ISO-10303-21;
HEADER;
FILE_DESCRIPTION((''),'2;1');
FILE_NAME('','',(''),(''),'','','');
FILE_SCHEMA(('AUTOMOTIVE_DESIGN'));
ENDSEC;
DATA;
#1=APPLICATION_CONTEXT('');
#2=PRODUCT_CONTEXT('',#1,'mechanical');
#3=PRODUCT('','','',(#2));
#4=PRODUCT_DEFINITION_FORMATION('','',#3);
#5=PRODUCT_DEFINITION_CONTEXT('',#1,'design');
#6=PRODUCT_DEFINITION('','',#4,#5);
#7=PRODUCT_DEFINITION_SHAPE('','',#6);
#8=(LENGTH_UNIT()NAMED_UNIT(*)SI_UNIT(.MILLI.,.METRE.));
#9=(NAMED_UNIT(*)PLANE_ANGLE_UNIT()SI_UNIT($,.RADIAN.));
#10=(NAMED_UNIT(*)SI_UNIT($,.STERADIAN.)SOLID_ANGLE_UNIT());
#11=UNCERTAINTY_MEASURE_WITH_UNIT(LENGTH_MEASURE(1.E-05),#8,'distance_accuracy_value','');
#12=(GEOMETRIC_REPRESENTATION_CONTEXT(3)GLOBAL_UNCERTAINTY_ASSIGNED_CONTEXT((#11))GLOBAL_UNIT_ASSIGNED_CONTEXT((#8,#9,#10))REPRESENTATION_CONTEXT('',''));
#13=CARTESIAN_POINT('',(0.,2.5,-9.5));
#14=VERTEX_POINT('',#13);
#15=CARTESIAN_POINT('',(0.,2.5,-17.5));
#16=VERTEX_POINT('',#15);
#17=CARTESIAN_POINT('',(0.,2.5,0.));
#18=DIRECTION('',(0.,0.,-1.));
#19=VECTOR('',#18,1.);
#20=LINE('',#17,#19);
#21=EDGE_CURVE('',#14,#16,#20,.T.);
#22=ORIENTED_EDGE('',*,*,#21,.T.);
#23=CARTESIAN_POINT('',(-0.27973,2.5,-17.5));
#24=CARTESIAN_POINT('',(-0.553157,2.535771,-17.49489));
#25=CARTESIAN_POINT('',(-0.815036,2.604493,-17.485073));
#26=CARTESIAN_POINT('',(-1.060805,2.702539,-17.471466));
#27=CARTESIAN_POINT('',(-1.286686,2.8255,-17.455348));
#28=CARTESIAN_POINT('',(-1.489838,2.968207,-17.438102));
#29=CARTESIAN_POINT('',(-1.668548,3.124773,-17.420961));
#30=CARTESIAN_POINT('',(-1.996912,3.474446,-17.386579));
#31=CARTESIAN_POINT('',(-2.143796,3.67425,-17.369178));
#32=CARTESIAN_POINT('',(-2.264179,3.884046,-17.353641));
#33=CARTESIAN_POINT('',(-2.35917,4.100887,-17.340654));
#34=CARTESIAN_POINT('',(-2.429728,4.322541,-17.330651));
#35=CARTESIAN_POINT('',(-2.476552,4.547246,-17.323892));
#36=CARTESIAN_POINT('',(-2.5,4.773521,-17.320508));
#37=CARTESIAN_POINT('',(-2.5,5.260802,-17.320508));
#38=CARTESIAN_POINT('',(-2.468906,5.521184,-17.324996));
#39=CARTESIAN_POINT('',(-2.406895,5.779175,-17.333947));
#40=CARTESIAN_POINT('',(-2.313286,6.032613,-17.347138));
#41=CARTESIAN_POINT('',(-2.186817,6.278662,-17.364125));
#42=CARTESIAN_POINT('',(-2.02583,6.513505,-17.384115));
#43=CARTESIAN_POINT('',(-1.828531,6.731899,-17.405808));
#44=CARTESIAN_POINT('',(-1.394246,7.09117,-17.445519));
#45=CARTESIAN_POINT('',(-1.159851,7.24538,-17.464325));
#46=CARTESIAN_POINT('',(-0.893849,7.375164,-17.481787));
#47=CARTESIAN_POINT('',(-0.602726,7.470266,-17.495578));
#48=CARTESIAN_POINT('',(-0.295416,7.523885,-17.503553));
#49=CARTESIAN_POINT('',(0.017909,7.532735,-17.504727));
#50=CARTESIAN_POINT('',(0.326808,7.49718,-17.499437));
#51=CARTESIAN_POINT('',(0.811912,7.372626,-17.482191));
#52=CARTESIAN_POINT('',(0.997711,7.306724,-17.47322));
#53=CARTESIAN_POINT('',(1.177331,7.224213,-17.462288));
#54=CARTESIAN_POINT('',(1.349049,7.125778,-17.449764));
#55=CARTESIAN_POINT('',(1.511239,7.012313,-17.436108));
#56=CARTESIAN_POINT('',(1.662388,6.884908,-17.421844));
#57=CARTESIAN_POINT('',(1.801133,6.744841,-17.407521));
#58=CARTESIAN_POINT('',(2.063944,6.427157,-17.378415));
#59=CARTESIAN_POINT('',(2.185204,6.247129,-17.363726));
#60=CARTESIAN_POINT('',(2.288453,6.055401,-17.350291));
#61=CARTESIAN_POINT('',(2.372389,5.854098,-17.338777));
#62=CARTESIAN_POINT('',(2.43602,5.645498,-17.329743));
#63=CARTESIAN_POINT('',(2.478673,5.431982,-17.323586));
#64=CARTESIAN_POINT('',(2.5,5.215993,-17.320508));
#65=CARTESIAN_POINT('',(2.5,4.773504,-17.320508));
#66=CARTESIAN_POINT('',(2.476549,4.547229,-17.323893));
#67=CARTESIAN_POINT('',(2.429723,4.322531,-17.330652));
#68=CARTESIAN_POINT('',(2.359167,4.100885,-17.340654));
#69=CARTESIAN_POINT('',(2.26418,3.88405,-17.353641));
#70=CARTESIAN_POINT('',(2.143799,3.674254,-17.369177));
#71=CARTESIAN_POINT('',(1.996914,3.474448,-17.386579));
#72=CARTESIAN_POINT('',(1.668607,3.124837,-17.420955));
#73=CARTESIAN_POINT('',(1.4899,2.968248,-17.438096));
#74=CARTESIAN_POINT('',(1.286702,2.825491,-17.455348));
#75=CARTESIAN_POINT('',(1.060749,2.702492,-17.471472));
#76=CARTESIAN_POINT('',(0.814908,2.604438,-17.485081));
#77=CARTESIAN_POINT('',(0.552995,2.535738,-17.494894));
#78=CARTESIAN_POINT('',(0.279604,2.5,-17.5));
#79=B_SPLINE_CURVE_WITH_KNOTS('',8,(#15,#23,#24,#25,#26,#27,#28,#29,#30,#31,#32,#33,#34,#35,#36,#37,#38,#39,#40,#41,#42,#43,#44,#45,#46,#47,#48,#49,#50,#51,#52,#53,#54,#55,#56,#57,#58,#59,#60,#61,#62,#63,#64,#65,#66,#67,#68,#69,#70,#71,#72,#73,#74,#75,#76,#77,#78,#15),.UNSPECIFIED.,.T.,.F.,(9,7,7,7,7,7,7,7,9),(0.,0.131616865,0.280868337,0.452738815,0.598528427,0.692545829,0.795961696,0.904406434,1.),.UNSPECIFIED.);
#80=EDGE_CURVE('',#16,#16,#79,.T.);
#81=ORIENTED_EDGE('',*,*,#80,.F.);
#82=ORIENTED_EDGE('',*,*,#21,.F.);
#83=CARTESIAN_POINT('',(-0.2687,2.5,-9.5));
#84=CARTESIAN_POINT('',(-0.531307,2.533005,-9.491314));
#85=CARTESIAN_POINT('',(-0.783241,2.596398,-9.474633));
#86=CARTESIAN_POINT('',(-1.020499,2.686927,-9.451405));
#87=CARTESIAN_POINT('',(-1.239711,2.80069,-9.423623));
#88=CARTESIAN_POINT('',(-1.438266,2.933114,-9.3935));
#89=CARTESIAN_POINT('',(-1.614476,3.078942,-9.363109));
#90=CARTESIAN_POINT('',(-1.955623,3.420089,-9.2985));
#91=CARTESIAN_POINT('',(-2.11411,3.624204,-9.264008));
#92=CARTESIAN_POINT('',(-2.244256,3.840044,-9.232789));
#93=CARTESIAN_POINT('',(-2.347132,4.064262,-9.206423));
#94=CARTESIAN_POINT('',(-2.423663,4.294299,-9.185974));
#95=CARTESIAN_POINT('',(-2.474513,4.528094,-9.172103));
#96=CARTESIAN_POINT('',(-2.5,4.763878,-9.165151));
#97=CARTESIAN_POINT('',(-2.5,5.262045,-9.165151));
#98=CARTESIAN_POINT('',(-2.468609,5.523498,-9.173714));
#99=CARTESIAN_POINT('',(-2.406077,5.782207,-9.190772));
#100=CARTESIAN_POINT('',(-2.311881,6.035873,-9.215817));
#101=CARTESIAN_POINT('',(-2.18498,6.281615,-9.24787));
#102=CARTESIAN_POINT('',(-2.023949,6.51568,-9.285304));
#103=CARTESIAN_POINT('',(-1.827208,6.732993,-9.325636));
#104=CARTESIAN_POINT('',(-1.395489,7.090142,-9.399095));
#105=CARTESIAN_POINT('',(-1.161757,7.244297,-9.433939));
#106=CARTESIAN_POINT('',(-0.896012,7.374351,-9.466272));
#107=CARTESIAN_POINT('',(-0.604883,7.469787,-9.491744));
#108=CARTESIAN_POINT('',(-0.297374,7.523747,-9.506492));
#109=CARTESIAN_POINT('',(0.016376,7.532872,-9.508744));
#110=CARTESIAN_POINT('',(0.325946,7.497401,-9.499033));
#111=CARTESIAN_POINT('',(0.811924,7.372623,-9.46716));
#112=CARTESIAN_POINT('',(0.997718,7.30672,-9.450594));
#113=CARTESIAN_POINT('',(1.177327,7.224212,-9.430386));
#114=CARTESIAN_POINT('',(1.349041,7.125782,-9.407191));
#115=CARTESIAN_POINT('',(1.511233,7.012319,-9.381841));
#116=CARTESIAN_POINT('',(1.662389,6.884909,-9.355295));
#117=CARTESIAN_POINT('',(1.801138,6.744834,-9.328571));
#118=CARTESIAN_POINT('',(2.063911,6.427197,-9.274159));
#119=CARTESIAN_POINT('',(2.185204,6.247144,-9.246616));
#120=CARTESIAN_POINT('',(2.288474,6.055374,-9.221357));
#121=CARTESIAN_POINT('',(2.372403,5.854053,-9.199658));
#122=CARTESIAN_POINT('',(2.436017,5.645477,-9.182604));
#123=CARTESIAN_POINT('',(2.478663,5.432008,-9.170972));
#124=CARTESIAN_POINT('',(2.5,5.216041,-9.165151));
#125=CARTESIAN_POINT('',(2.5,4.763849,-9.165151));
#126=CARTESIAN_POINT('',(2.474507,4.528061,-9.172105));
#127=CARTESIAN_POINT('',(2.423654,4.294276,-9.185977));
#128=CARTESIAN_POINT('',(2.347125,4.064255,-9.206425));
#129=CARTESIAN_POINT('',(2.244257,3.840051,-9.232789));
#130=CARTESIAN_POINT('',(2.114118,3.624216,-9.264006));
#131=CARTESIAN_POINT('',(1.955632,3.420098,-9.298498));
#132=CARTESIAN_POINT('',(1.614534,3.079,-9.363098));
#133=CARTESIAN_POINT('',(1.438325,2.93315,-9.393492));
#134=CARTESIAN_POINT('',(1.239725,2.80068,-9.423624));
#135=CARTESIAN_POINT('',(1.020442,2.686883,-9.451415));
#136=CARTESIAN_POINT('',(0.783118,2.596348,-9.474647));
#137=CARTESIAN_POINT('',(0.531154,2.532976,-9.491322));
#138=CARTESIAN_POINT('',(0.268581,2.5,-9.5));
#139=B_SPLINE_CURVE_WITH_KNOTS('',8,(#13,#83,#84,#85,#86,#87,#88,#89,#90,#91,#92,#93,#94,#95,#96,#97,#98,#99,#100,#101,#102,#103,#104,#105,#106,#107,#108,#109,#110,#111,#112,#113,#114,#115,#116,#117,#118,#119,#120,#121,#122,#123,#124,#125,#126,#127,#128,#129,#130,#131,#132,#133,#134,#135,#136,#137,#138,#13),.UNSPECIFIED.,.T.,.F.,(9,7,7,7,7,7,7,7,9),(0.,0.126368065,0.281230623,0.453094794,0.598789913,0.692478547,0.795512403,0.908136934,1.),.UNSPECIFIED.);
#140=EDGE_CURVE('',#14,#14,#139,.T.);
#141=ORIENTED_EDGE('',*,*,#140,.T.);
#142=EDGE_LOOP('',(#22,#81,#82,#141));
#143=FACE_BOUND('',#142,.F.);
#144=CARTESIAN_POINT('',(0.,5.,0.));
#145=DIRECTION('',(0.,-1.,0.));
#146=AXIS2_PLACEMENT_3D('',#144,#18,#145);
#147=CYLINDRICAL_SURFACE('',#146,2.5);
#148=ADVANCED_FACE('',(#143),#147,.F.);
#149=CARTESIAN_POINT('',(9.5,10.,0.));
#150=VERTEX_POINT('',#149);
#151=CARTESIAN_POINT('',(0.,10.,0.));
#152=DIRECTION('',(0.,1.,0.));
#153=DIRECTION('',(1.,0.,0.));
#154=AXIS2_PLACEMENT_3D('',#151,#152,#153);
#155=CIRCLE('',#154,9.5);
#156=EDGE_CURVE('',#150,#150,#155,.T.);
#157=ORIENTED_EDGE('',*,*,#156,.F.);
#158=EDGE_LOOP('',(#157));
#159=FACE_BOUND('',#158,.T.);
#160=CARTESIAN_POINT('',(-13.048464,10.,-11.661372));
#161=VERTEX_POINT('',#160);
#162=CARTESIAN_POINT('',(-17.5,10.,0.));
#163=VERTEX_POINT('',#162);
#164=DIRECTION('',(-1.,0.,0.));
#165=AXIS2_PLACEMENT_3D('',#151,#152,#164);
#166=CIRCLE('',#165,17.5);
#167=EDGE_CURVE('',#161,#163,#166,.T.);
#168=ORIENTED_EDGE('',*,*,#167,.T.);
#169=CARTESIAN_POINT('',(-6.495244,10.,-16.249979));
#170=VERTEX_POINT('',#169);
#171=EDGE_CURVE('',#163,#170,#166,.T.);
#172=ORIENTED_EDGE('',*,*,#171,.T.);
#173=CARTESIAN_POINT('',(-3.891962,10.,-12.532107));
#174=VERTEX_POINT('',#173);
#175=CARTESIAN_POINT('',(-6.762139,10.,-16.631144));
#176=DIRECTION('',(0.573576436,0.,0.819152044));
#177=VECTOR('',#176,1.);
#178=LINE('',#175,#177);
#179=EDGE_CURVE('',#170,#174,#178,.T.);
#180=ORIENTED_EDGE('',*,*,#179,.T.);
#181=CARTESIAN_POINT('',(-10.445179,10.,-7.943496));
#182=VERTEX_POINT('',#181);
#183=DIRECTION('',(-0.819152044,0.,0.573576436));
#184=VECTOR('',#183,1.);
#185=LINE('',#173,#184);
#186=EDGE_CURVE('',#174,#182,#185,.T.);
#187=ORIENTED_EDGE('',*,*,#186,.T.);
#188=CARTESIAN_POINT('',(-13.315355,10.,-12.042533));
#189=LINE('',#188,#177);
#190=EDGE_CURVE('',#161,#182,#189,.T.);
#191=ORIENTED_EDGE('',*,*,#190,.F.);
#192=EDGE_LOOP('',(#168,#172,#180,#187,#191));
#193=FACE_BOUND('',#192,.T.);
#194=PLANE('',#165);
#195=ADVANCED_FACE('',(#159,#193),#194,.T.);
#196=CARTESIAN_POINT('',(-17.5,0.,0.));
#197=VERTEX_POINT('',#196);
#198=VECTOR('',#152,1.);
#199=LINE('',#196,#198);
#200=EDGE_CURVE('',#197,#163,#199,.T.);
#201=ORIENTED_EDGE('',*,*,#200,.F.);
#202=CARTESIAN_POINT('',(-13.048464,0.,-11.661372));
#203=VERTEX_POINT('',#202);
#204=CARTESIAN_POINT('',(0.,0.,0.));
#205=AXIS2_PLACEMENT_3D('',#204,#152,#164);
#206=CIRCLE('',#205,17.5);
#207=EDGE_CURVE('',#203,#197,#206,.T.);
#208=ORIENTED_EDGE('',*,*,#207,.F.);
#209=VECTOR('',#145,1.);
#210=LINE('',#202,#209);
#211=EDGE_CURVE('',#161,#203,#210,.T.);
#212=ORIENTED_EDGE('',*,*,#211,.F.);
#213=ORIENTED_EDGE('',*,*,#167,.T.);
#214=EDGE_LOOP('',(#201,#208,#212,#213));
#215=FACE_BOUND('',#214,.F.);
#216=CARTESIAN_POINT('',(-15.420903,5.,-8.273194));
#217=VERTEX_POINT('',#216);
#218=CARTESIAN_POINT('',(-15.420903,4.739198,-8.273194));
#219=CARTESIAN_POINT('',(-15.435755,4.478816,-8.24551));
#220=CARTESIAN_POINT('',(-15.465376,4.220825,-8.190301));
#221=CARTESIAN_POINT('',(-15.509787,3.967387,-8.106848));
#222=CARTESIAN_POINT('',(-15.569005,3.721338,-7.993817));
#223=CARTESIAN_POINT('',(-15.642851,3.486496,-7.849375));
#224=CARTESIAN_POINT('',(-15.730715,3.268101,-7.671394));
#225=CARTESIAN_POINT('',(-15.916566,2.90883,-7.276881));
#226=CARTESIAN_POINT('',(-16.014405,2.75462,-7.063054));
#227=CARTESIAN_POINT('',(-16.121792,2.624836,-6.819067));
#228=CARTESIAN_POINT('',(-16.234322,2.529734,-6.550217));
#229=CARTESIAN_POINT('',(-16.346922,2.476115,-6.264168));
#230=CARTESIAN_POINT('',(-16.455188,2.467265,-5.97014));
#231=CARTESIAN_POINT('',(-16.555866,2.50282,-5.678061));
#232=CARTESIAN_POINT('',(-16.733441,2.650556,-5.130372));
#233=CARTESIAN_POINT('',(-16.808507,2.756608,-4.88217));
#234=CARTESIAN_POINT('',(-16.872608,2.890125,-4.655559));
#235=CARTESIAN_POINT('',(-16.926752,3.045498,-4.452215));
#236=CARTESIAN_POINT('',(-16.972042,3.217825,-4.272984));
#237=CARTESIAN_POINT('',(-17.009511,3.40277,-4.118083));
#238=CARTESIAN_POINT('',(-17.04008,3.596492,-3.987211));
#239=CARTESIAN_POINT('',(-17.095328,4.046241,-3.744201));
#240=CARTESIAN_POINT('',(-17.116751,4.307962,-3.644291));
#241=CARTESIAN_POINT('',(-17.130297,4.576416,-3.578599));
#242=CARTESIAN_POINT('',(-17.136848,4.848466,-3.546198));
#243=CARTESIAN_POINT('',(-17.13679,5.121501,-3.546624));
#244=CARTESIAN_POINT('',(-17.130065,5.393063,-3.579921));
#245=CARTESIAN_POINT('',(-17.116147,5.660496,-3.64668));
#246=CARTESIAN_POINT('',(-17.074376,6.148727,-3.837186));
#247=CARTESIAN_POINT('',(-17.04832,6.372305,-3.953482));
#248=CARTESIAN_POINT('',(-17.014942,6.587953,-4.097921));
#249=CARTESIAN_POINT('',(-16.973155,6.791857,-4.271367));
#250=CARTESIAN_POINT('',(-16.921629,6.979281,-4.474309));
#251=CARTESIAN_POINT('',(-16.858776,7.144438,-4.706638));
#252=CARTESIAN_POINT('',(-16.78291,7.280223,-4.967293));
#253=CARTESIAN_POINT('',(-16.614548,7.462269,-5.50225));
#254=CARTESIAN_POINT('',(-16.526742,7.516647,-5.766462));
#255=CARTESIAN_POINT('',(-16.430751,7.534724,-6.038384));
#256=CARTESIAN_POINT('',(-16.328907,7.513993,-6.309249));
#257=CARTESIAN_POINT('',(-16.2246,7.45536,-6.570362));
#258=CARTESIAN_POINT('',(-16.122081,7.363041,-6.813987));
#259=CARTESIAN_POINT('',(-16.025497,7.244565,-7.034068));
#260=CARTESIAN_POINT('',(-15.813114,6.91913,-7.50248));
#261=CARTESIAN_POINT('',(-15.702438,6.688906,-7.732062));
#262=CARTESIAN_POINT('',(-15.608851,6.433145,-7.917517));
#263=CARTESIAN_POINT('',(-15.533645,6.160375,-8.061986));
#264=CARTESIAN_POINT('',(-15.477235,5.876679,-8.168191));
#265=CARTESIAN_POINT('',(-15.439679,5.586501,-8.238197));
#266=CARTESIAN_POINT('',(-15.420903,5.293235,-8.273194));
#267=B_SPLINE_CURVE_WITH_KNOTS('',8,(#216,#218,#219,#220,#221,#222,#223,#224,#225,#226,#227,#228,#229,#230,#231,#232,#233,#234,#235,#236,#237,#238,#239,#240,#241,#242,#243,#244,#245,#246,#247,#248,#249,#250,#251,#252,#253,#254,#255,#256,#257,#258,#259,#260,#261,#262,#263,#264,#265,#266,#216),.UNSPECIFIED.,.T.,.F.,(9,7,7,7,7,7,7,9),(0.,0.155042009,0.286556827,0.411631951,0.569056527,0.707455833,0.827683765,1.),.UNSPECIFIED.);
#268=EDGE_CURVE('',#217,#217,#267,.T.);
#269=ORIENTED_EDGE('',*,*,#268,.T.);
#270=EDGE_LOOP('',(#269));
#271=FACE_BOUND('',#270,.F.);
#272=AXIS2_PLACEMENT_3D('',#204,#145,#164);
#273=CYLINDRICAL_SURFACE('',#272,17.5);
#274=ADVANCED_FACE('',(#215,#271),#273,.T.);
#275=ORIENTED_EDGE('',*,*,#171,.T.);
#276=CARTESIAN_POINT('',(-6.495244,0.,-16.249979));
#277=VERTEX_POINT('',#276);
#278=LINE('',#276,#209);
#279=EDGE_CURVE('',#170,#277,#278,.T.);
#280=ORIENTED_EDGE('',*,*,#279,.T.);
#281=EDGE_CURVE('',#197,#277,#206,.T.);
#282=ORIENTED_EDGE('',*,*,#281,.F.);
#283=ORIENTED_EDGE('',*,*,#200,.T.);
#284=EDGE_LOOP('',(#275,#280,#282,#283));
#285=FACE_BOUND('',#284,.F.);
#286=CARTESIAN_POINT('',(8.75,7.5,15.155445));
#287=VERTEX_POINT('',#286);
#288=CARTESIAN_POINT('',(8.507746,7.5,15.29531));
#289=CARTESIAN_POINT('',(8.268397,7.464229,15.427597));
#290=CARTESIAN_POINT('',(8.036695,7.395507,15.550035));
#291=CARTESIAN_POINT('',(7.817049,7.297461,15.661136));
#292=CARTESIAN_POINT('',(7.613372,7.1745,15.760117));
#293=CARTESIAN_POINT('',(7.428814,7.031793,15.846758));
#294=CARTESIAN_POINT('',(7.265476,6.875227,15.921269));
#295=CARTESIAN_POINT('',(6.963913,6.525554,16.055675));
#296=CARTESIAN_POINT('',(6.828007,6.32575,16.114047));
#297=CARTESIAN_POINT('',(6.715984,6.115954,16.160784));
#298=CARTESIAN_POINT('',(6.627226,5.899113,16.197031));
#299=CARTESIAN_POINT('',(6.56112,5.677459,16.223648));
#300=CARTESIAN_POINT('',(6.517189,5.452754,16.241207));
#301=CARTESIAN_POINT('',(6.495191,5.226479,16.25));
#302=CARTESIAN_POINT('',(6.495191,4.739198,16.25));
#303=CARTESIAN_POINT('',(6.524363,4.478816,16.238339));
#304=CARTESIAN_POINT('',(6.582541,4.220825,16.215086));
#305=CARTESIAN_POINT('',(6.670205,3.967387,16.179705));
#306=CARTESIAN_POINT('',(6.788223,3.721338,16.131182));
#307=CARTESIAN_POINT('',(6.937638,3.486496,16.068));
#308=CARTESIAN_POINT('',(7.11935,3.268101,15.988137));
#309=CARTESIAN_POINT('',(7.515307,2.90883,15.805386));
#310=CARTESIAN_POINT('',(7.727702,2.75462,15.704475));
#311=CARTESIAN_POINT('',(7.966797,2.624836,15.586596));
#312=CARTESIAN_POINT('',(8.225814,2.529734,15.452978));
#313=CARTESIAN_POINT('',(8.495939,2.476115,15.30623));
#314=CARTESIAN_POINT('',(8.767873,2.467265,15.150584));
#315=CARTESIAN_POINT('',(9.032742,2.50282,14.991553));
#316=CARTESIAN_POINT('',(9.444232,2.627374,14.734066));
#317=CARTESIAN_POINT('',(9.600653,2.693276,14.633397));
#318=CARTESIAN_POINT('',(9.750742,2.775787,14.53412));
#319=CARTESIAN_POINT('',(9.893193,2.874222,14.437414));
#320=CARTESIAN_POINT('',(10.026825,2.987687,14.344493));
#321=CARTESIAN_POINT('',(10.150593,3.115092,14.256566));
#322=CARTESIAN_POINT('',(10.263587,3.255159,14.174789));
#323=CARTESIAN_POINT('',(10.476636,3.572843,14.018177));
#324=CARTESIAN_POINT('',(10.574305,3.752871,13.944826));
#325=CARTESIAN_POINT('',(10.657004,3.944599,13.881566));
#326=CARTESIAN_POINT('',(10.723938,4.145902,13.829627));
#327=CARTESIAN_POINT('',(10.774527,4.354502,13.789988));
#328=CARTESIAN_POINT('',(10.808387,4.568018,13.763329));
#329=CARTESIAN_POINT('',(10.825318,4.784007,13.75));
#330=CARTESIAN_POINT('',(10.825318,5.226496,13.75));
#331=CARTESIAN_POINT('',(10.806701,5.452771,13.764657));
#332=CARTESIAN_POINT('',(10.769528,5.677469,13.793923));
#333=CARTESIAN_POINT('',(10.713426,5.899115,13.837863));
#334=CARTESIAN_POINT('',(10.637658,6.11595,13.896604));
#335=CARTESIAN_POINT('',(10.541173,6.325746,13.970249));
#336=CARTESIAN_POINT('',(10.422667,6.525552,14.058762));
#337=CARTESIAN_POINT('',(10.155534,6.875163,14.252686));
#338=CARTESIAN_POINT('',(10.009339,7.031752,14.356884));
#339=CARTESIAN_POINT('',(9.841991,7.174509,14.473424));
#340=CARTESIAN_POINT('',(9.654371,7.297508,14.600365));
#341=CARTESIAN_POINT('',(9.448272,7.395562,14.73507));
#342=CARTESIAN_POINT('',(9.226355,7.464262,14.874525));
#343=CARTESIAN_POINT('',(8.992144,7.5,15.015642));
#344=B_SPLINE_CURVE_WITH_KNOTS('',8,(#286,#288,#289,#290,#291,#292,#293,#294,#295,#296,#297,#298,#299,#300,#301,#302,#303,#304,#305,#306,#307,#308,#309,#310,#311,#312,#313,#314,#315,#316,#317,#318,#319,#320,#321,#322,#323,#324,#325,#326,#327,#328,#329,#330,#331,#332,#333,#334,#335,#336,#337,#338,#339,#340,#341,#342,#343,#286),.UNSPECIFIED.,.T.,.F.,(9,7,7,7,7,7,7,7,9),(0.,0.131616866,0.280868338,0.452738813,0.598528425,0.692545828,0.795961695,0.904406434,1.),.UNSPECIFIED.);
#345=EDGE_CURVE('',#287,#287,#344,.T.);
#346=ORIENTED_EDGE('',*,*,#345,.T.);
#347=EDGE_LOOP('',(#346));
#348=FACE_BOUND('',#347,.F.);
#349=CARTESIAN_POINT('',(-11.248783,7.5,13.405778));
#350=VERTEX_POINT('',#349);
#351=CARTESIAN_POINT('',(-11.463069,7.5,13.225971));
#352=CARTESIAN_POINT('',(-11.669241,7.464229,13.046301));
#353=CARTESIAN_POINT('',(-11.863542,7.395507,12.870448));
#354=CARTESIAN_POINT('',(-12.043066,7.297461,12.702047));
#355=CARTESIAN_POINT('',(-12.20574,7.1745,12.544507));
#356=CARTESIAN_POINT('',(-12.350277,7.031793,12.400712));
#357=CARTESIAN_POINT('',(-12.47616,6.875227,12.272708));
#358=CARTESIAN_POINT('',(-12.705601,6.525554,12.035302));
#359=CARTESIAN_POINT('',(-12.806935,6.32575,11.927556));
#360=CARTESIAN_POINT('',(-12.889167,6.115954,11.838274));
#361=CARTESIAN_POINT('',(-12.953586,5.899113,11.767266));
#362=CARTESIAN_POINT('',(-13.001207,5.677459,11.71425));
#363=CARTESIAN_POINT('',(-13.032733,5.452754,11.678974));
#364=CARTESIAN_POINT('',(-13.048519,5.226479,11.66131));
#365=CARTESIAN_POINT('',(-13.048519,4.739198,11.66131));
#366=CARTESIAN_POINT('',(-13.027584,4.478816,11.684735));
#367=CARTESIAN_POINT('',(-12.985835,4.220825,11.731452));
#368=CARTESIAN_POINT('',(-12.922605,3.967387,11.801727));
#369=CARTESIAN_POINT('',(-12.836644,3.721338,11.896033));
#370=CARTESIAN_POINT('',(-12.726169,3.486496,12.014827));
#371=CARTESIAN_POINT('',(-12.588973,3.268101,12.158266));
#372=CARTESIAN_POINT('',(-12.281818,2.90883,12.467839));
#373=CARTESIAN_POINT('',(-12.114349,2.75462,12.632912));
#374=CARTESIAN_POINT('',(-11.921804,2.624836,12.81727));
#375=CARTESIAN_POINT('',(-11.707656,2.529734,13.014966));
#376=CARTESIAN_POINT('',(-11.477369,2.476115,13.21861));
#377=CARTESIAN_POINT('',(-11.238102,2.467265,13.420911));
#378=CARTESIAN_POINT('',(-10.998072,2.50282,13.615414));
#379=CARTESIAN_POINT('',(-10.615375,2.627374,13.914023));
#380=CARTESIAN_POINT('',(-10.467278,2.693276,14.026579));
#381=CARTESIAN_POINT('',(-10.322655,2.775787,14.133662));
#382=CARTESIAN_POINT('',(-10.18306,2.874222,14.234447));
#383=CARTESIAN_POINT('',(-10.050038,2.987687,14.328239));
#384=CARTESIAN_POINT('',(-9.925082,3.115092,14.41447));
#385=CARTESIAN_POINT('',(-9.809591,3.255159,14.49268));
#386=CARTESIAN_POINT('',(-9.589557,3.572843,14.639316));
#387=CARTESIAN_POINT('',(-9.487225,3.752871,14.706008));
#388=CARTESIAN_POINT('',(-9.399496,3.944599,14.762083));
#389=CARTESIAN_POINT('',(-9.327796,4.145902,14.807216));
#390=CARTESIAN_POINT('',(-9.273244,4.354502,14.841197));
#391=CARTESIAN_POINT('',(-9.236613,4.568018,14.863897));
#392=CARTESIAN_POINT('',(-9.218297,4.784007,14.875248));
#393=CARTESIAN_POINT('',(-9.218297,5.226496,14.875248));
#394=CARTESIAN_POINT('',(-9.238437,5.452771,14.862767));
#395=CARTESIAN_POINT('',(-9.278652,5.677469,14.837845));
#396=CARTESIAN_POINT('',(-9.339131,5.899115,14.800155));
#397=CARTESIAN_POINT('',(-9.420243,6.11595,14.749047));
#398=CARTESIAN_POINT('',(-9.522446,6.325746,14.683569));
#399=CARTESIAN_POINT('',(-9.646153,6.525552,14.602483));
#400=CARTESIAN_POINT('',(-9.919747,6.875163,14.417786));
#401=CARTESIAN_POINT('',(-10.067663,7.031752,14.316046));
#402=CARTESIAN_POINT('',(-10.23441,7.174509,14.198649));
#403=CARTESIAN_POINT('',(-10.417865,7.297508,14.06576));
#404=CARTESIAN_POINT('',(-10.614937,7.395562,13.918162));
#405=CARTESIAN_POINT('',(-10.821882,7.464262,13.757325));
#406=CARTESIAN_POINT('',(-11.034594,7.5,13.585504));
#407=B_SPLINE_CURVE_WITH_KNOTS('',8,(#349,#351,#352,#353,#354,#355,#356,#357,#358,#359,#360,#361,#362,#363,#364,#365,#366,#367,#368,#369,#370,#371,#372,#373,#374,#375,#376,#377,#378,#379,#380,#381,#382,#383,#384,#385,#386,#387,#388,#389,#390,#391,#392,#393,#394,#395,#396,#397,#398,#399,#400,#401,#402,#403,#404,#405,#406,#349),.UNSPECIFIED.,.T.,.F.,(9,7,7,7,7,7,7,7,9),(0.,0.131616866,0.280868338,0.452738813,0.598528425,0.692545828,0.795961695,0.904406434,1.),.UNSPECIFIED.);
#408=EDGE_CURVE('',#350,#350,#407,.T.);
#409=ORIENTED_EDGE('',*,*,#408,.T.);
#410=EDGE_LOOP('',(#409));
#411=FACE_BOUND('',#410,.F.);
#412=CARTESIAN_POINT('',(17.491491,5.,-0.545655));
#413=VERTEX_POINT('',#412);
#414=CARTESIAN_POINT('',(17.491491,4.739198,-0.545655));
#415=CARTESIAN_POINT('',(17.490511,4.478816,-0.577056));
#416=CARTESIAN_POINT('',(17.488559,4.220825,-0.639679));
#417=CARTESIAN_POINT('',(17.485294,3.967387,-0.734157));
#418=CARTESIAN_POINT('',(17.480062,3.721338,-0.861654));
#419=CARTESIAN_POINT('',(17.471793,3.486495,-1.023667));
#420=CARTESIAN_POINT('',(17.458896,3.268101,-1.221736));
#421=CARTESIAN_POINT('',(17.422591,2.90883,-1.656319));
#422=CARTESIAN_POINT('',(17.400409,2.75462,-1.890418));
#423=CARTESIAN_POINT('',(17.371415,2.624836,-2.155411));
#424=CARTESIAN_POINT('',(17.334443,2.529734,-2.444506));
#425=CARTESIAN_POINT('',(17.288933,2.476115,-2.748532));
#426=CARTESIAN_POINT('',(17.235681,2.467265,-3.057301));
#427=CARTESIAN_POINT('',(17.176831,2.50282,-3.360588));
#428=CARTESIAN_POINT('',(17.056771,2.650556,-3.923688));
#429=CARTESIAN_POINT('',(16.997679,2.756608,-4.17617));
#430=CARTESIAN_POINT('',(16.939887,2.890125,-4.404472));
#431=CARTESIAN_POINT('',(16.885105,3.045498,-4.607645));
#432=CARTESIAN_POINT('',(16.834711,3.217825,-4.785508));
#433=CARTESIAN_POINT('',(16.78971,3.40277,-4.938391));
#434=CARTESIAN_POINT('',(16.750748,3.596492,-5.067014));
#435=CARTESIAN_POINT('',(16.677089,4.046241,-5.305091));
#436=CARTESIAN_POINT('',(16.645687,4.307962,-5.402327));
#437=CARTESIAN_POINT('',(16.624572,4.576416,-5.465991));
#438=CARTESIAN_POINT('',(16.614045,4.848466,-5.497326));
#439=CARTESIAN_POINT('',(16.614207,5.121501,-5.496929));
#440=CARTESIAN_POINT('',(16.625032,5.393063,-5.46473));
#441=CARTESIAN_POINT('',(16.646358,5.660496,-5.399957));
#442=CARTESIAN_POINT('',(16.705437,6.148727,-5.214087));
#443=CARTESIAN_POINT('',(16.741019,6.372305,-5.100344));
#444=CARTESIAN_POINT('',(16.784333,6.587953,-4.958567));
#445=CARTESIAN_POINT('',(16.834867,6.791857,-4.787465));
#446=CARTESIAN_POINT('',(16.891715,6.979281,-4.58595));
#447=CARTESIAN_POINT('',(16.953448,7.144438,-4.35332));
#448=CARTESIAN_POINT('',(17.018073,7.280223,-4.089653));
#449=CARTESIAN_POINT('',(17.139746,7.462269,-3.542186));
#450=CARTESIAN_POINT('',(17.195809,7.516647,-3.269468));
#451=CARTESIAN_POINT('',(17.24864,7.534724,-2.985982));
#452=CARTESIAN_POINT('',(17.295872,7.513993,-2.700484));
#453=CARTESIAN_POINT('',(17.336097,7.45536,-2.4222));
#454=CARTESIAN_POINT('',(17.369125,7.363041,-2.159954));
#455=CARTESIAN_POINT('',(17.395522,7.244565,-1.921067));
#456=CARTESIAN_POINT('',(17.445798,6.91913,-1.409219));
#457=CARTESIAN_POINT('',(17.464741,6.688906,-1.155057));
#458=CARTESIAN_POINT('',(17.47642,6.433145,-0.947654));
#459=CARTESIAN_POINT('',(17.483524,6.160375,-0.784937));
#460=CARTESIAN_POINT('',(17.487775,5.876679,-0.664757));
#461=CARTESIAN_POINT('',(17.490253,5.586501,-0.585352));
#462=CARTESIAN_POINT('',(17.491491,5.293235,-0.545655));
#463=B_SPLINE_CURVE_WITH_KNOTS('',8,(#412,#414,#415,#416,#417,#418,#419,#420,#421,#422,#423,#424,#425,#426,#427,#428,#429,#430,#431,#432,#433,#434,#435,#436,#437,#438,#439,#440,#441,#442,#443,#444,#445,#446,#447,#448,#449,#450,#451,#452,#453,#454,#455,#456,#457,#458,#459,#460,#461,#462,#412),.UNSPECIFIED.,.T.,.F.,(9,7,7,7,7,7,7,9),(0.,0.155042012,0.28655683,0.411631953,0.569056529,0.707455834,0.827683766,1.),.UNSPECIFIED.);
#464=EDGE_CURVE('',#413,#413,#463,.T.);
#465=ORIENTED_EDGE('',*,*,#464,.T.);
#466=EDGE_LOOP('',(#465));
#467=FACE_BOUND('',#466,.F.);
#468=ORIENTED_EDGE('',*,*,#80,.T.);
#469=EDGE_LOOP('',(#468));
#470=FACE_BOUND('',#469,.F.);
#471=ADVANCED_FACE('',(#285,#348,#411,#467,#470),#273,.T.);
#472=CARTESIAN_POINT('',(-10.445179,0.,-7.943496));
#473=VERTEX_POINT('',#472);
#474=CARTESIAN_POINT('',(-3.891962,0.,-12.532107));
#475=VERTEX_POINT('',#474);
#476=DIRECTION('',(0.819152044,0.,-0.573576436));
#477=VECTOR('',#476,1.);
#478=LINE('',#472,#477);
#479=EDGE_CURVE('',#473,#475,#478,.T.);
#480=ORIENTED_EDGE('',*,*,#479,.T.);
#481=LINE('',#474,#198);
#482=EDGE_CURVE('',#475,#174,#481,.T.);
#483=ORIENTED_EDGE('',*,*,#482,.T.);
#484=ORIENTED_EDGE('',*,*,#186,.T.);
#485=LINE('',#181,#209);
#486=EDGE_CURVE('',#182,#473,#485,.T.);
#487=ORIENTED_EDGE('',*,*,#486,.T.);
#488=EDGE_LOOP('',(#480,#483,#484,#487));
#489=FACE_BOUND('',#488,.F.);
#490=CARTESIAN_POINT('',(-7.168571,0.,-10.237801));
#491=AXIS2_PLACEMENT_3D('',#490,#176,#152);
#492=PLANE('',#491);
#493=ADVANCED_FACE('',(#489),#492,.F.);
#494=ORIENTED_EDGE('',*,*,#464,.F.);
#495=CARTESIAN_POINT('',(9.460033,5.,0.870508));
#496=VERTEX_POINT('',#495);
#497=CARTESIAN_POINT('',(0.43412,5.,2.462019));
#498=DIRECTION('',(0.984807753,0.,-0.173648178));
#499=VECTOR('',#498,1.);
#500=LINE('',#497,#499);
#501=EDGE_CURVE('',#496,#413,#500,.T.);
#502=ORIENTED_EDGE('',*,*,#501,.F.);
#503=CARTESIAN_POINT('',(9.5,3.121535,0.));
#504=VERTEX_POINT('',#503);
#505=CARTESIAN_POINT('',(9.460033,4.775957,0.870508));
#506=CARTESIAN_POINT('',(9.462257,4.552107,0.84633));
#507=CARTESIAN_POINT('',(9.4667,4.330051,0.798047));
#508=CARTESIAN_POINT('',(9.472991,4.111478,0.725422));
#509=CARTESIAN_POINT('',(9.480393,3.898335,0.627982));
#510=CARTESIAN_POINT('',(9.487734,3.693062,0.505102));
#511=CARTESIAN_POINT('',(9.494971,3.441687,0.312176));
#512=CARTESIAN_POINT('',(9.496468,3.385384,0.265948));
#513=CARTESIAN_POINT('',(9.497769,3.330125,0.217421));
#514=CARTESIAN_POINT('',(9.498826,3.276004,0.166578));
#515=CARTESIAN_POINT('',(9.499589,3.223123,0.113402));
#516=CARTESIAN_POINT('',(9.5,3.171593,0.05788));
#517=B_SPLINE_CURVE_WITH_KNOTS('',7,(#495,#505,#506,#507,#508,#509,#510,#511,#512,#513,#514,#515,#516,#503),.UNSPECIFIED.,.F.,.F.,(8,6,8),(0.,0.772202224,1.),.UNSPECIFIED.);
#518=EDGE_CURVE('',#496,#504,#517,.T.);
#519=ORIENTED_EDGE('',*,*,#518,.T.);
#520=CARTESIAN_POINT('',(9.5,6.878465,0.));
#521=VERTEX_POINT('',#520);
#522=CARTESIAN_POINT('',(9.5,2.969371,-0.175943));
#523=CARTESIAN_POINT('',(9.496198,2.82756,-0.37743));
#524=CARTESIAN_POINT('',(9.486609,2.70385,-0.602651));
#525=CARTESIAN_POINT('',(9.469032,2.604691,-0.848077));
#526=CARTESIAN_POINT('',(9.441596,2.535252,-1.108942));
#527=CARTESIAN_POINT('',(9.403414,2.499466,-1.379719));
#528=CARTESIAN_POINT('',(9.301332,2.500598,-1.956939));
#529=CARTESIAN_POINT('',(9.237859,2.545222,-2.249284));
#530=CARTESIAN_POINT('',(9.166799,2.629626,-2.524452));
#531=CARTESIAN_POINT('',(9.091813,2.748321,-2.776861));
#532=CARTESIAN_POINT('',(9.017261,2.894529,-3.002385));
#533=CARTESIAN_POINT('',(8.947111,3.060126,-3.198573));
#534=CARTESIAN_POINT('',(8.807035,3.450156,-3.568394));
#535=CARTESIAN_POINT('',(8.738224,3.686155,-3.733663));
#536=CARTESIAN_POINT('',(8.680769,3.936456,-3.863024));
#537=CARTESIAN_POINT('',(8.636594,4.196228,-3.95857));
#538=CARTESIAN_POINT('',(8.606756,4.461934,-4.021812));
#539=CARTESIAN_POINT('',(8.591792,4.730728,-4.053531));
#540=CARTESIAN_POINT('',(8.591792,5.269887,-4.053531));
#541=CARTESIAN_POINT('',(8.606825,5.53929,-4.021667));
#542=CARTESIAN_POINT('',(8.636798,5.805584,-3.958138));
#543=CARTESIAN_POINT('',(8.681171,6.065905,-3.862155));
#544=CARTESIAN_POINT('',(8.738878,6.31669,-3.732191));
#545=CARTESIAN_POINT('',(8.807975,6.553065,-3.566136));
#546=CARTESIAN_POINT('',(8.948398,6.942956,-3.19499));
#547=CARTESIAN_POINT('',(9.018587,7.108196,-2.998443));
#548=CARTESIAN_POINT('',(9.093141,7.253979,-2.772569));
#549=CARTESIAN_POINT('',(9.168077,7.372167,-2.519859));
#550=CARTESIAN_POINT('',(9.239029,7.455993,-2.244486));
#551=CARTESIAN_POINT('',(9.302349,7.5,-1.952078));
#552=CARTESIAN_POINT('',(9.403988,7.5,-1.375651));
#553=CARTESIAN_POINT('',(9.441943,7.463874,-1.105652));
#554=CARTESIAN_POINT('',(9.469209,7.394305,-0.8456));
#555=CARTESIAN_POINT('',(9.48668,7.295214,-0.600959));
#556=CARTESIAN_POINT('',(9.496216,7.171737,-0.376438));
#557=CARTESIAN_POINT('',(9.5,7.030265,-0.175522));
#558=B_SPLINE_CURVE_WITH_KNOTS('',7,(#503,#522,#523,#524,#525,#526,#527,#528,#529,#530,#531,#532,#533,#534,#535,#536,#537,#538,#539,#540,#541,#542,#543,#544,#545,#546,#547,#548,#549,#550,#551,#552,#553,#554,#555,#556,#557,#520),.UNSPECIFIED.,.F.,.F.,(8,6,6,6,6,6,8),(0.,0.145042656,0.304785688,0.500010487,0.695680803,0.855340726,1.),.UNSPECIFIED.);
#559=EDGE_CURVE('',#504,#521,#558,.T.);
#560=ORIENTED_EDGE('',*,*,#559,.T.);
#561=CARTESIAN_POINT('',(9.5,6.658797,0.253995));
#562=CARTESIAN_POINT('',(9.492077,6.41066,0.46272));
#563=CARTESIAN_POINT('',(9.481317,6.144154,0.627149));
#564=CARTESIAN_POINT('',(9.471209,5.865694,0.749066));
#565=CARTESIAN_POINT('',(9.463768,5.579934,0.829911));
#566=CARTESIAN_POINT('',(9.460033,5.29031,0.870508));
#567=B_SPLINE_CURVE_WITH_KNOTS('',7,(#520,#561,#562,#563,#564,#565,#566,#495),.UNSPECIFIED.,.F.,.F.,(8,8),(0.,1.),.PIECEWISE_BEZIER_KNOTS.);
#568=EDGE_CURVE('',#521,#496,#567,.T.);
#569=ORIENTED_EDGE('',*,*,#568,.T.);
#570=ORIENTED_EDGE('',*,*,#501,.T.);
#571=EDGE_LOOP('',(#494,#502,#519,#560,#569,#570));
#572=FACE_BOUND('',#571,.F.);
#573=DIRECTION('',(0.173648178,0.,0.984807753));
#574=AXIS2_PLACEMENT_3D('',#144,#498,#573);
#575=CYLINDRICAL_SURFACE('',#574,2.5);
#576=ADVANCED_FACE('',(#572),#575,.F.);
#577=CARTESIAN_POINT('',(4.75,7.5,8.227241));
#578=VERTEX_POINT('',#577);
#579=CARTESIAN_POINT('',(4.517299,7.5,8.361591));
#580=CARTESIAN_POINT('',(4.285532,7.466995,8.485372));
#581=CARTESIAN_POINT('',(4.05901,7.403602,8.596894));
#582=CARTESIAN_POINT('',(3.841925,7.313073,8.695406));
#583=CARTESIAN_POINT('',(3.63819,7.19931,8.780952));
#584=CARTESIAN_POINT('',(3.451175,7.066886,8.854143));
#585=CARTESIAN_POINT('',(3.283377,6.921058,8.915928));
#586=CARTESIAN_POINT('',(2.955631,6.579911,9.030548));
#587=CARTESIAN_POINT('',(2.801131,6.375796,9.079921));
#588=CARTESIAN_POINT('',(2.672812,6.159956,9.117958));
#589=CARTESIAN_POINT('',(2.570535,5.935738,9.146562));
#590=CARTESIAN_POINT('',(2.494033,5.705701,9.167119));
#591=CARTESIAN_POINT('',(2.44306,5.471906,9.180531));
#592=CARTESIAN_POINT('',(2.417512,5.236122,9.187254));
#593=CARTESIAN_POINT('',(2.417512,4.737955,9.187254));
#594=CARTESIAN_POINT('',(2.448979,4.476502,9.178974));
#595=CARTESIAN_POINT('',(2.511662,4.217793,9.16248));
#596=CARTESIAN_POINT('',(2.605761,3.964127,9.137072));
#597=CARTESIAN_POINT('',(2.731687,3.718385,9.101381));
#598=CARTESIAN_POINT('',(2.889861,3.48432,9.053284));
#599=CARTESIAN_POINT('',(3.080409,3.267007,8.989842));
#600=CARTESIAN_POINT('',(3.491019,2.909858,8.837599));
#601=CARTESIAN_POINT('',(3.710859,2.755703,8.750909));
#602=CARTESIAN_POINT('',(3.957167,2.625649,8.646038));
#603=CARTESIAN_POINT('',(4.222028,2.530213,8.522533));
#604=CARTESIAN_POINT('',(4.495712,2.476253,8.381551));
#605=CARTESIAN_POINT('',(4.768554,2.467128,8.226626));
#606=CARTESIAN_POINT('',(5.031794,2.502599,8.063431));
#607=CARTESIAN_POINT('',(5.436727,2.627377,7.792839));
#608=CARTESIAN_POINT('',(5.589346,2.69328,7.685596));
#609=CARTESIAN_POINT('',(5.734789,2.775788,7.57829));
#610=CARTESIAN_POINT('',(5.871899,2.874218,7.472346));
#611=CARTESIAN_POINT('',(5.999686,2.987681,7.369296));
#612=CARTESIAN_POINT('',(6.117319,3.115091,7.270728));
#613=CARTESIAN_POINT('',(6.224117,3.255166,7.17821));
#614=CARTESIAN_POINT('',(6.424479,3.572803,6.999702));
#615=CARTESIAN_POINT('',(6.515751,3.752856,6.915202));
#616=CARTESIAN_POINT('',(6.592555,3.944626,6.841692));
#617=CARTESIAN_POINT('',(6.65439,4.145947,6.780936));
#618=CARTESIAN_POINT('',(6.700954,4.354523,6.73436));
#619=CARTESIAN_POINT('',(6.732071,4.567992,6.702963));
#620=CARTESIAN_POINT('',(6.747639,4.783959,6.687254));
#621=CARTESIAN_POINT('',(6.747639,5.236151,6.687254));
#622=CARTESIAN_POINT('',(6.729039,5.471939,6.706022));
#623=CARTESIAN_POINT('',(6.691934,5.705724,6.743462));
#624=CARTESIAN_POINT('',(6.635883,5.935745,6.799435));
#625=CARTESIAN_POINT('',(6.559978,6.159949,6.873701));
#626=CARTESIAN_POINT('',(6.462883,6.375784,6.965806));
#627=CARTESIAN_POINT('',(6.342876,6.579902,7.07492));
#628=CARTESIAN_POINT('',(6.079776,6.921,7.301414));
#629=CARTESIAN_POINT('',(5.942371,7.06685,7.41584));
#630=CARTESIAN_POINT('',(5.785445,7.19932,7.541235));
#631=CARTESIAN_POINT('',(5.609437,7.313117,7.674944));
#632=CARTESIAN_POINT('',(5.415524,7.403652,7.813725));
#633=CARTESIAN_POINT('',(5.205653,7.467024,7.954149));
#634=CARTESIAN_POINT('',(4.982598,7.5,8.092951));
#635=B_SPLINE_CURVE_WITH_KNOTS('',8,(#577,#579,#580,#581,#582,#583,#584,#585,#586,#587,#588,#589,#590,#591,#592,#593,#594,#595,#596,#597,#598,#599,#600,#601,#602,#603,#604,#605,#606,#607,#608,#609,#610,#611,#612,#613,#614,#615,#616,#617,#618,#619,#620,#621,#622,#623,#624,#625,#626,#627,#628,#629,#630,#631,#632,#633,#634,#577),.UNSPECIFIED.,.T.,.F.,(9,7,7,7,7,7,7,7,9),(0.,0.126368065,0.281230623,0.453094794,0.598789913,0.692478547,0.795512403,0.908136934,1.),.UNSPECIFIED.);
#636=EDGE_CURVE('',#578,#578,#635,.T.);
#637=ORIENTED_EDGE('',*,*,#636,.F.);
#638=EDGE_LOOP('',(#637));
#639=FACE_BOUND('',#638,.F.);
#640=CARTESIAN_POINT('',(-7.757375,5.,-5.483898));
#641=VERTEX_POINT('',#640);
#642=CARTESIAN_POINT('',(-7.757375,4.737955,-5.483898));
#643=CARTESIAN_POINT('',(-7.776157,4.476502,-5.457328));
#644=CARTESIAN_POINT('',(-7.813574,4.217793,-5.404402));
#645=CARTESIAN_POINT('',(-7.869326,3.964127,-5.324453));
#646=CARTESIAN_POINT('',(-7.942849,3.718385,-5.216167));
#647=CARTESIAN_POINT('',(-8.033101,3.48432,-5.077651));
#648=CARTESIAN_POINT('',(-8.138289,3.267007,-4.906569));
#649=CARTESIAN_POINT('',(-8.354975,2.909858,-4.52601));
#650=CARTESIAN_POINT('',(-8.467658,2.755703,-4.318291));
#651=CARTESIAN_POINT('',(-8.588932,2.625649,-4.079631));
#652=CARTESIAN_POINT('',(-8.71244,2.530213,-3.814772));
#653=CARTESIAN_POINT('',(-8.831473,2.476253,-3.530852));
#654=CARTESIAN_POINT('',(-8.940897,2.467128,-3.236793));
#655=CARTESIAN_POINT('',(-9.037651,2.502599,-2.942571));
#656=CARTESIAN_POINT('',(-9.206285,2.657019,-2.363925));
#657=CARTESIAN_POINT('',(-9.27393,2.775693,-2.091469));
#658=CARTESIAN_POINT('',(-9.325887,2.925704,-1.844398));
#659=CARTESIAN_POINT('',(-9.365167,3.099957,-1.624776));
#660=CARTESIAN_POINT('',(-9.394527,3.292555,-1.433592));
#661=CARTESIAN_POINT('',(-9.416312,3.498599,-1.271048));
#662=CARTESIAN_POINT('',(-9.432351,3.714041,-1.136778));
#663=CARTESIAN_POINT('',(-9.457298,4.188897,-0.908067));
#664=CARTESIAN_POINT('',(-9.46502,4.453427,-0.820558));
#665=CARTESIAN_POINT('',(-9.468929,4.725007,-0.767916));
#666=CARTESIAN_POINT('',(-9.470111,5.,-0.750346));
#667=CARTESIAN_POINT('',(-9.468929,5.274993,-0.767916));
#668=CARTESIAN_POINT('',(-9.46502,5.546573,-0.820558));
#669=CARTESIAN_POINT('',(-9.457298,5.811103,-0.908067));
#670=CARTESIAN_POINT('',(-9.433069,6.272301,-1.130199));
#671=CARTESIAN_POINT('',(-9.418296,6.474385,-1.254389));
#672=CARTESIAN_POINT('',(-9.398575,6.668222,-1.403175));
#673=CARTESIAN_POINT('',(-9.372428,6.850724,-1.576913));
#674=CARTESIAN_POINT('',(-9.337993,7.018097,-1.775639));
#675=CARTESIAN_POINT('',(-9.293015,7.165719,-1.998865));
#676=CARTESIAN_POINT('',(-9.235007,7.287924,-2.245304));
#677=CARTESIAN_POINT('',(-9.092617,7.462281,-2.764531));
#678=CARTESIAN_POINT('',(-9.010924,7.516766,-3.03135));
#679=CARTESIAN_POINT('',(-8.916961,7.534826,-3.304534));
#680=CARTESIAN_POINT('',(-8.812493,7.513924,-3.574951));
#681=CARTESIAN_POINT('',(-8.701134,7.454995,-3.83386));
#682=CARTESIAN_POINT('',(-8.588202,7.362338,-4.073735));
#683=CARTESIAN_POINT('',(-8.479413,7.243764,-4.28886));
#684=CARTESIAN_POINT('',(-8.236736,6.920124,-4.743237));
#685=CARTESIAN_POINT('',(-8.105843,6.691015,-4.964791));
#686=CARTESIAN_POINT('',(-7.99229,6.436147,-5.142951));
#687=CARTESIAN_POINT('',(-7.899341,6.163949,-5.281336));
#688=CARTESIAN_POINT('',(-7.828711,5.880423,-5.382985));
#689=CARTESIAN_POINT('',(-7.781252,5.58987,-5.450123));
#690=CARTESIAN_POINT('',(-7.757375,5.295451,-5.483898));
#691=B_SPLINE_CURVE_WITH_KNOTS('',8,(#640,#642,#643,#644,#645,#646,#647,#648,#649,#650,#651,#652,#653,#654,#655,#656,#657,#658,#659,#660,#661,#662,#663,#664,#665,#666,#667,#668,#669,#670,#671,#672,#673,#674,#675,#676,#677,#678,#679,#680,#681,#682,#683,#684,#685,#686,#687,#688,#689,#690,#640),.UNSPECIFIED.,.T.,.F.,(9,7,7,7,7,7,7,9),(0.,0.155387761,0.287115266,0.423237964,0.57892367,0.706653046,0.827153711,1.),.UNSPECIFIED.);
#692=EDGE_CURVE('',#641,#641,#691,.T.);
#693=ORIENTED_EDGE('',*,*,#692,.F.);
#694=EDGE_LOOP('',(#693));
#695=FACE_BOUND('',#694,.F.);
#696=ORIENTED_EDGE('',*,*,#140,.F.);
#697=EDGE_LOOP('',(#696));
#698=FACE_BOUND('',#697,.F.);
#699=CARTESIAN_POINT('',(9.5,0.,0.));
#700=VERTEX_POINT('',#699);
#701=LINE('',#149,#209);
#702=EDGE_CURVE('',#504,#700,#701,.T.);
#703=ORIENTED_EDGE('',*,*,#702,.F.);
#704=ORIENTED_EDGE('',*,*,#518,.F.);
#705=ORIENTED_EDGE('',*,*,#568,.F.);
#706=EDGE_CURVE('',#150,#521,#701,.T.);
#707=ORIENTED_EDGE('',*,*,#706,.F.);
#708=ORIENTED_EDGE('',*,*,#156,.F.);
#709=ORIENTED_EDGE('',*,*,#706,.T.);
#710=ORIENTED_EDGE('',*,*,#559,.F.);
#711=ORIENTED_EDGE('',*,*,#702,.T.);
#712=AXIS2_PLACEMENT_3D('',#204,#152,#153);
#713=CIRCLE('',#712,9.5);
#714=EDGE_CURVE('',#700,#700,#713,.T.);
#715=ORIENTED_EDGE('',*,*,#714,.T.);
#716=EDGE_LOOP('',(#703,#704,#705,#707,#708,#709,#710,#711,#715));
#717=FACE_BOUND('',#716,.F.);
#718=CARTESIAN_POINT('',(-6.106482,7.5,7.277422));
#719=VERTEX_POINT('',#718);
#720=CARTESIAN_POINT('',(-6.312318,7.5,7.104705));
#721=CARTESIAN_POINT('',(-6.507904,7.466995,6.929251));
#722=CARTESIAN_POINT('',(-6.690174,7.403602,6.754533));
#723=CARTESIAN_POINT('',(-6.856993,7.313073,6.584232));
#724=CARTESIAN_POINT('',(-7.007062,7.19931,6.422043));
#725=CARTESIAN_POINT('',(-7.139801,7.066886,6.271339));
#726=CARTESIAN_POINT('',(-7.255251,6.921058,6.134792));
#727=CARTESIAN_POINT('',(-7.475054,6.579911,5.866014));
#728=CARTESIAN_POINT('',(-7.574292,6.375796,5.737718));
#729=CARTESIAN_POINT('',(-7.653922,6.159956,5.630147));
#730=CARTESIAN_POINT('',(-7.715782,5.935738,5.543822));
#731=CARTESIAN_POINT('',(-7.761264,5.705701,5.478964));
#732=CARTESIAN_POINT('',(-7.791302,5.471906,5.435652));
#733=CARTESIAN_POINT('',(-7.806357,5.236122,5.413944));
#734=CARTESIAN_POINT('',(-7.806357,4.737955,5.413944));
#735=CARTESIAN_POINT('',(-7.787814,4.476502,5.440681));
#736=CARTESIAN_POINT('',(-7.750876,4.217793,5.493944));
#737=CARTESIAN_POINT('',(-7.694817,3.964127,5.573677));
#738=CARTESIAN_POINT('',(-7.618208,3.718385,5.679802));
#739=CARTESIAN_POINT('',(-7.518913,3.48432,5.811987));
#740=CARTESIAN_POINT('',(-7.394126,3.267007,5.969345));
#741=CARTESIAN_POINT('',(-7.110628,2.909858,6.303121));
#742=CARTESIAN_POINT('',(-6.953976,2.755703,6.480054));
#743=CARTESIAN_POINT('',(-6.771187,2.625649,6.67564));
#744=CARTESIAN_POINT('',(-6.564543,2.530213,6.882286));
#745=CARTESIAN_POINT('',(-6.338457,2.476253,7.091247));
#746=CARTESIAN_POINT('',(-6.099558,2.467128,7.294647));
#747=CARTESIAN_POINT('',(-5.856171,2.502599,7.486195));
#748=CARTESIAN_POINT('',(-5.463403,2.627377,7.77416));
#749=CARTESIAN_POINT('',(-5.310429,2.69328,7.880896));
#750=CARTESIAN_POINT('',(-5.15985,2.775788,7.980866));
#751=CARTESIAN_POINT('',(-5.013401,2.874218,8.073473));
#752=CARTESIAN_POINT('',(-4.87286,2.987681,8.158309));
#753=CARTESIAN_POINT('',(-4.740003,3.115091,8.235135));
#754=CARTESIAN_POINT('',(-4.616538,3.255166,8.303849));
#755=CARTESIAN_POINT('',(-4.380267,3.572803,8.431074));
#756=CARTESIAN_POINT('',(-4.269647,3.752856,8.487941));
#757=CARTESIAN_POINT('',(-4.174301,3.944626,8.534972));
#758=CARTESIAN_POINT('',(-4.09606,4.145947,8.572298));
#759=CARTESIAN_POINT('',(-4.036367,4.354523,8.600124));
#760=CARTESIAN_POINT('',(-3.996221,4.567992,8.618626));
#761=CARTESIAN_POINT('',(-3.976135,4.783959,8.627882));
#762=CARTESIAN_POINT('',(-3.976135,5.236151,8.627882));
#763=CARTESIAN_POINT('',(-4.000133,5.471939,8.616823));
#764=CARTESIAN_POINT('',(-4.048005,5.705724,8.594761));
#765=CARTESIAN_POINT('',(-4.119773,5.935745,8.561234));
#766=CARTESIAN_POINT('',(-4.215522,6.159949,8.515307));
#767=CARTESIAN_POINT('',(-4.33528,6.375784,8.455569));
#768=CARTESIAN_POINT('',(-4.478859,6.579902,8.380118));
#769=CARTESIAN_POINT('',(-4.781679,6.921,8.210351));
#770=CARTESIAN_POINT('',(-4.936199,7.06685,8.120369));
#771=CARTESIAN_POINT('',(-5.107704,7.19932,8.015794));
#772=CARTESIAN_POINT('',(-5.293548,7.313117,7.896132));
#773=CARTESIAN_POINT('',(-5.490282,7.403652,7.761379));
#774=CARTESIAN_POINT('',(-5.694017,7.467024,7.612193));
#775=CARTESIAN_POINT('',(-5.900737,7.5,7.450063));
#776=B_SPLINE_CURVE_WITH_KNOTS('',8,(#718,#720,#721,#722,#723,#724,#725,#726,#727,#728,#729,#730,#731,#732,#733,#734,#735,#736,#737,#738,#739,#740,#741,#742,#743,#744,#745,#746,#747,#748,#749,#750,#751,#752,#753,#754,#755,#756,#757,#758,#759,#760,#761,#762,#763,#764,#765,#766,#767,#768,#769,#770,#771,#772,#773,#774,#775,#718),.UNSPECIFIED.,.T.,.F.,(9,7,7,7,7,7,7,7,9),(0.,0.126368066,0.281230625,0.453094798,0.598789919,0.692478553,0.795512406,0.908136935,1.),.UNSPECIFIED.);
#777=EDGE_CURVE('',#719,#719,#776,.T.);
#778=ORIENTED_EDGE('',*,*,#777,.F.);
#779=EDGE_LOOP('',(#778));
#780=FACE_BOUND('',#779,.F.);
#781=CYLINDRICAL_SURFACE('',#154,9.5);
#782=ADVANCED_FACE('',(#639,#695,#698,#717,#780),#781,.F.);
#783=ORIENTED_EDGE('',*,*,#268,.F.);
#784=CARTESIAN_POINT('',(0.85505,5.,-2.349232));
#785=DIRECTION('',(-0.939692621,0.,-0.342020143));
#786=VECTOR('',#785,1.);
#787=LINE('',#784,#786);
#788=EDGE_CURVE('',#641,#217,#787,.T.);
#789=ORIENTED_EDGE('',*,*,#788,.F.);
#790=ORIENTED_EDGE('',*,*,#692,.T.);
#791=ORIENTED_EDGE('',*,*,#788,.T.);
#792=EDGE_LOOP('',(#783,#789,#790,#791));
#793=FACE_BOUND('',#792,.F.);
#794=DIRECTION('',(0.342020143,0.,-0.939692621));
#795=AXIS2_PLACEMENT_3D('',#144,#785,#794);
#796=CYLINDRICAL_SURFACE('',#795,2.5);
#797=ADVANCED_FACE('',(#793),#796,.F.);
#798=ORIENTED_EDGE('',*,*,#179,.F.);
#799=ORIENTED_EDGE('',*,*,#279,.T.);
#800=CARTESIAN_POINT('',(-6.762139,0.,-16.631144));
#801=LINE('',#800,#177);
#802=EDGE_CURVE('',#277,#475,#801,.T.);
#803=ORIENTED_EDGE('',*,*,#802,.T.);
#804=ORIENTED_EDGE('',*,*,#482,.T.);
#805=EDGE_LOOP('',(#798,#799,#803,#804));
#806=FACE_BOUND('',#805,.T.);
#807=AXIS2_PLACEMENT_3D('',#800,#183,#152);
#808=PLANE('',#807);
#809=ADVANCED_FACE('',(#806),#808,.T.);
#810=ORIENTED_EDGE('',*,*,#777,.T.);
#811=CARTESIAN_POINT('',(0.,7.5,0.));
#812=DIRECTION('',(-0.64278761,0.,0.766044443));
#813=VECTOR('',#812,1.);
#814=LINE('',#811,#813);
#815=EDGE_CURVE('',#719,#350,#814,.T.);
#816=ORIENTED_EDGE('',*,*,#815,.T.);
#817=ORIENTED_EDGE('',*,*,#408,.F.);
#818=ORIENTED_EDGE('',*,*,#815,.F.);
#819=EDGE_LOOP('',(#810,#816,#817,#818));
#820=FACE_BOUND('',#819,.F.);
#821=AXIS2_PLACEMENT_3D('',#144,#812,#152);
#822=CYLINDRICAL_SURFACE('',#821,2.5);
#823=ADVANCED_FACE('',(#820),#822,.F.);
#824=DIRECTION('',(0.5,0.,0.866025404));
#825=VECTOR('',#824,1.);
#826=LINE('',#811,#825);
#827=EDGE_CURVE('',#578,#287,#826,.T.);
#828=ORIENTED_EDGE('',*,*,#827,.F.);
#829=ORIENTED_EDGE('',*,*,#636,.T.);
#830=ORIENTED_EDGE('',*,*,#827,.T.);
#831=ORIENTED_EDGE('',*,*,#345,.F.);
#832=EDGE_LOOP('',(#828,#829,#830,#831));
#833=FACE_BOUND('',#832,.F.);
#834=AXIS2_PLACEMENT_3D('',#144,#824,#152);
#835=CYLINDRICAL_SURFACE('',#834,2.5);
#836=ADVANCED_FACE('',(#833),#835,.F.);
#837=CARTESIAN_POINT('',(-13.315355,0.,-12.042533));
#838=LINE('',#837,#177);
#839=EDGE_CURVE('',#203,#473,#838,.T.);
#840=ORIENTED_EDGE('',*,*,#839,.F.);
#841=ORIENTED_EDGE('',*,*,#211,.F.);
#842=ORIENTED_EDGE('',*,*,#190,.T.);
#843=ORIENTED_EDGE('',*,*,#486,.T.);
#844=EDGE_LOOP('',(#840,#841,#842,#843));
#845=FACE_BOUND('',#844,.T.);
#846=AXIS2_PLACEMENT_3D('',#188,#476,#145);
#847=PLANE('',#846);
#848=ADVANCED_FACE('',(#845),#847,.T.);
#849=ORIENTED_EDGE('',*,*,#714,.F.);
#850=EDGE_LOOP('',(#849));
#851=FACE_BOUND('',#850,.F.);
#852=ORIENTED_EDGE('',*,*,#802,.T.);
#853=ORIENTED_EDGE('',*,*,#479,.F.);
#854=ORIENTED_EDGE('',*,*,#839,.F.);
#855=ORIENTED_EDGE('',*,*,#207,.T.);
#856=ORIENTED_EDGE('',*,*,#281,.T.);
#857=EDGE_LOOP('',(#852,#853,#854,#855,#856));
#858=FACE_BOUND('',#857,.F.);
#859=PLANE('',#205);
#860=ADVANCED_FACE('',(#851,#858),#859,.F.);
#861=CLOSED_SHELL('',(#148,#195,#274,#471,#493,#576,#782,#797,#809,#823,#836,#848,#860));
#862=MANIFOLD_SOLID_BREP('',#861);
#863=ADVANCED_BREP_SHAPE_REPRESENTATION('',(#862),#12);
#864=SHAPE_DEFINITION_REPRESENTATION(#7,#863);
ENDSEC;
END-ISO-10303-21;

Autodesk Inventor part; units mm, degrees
sketch "Sketch1" plane through (0, 0, 0) normal (0, 1, 0) x (-1, 0, 0)
  circle A0 centre (0, 0) radius 17.5
  dimension "d0" = 35
extrude "Extrusion1" add sketch "Sketch1" along normal blind 10
sketch "Sketch2" plane through (0, 10, 0) normal (0, 1, 0) x (1, 0, 0)
  circle A0 centre (0, 0) radius 9.5
  dimension "d3" = 19
extrude "Extrusion2" cut sketch "Sketch2" against normal through all
ref_plane "Work Plane13" through (0, 0, 0) normal (0, 0, 1) x (0, 1, 0)
sketch "Sketch11" plane through (0, 0, 0) normal (0, 0, 1) x (0, 1, 0)
  circle A0 centre (5, 0) radius 2.5
  point P0 (0, 0)
  dimension "d52" = 5
hole "Hole5" at (0, 5, 0) direction (0, 0, -1) diameter 5 end through all
ref_plane "Work Plane14" through (0, 0, 0) normal (0.9397, 0, 0.342) x (0, 1, 0)
sketch "Sketch12" plane through (0, 0, 0) normal (0.9397, 0, 0.342) x (0, 1, 0)
  circle A0 centre (5, 0) radius 2.5
  point P0 (0, 0)
  dimension "d61" = 5
hole "Hole6" at (0, 5, 0) direction (-0.9397, 0, -0.342) diameter 5 end through all
ref_plane "Work Plane15" through (0, 0, 0) normal (0.6428, 0, -0.766) x (0, 1, 0)
sketch "Sketch13" plane through (0, 0, 0) normal (0.6428, 0, -0.766) x (0, 1, 0)
  circle A0 centre (5, 0) radius 2.5
  point P0 (0, 0)
  dimension "d70" = 5
hole "Hole7" at (0, 5, 0) direction (-0.6428, 0, 0.766) diameter 5 end through all
ref_plane "Work Plane16" through (0, 0, 0) normal (-0.5, 0, -0.866) x (0, 1, 0)
sketch "Sketch14" plane through (0, 0, 0) normal (-0.5, 0, -0.866) x (0, 1, 0)
  circle A0 centre (5, 0) radius 2.5
  point P0 (0, 0)
  dimension "d79" = 5
hole "Hole8" at (0, 5, 0) direction (0.5, 0, 0.866) diameter 5 end through all
ref_plane "Work Plane17" through (0, 0, 0) normal (-0.9848, 0, 0.1736) x (0, 1, 0)
sketch "Sketch15" plane through (0, 0, 0) normal (-0.9848, 0, 0.1736) x (0, 1, 0)
  circle A0 centre (5, 0) radius 2.5
  point P0 (0, 0)
  dimension "d88" = 5
hole "Hole9" at (0, 5, 0) direction (0.9848, 0, -0.1736) diameter 5 end through all
ref_plane "Work Plane21" through (-10.0376, 0, -14.3352) normal (0.5736, 0, 0.8192) x (0, 1, 0)
ref_plane "Work Plane20" through (0, 0, 0) normal (0.5736, 0, 0.8192) x (0, 1, 0)
sketch "Sketch16" plane through (-10.0376, 0, -14.3352) normal (0.5736, 0, 0.8192) x (0, 1, 0)
  line L0 (10, 4) -> (0, 4)
  line L1 (0, 4) -> (0, -4)
  line L2 (0, -4) -> (10, -4)
  line L3 (10, -4) -> (10, 4)
  line L4 (0, 17.5) -> (0, -17.5)
  line L5 (18.3389, 0) -> (-7, 0) construction
  point P0 (0, 0)
  dimension "d100" = 8
  dimension "d107" = 4
  dimension "d108" = 10
extrude "Extrusion4" cut sketch "Sketch16" along normal blind 5
sketch "Sketch17" plane through (0, 0, 0) normal (0, -1, 0) x (1, 0, 0)
  line L0 (0, 0) -> (-16.3488, -23.3485) construction
  line L1 (-10.4463, -7.9451) -> (-13.0485, -11.6614) construction
  line L2 (-6.4953, -16.25) -> (-3.8931, -12.5337) construction
  line L3 (-3.8931, -12.5337) -> (-6.4953, -16.25) projected
  arc A0 (-6.4953, -16.25) -> (-13.0485, -11.6614) centre (0, 0) ccw projected
  line L4 (-13.0485, -11.6614) -> (-10.4463, -7.9451) projected
  line L5 (-10.4463, -7.9451) -> (-3.8931, -12.5337) projected
  circle A1 centre (0, 0) radius 9.5 projected
  point P0 (-10.0012, -14.2832)
  dimension "d114" = 26.426
  dimension "d115" = 13.213
equation "\"d107\" = 0.5 * d100"
equation "\"d115\" = 0.5 * d114"
properties part number "sprzeglo_04"
